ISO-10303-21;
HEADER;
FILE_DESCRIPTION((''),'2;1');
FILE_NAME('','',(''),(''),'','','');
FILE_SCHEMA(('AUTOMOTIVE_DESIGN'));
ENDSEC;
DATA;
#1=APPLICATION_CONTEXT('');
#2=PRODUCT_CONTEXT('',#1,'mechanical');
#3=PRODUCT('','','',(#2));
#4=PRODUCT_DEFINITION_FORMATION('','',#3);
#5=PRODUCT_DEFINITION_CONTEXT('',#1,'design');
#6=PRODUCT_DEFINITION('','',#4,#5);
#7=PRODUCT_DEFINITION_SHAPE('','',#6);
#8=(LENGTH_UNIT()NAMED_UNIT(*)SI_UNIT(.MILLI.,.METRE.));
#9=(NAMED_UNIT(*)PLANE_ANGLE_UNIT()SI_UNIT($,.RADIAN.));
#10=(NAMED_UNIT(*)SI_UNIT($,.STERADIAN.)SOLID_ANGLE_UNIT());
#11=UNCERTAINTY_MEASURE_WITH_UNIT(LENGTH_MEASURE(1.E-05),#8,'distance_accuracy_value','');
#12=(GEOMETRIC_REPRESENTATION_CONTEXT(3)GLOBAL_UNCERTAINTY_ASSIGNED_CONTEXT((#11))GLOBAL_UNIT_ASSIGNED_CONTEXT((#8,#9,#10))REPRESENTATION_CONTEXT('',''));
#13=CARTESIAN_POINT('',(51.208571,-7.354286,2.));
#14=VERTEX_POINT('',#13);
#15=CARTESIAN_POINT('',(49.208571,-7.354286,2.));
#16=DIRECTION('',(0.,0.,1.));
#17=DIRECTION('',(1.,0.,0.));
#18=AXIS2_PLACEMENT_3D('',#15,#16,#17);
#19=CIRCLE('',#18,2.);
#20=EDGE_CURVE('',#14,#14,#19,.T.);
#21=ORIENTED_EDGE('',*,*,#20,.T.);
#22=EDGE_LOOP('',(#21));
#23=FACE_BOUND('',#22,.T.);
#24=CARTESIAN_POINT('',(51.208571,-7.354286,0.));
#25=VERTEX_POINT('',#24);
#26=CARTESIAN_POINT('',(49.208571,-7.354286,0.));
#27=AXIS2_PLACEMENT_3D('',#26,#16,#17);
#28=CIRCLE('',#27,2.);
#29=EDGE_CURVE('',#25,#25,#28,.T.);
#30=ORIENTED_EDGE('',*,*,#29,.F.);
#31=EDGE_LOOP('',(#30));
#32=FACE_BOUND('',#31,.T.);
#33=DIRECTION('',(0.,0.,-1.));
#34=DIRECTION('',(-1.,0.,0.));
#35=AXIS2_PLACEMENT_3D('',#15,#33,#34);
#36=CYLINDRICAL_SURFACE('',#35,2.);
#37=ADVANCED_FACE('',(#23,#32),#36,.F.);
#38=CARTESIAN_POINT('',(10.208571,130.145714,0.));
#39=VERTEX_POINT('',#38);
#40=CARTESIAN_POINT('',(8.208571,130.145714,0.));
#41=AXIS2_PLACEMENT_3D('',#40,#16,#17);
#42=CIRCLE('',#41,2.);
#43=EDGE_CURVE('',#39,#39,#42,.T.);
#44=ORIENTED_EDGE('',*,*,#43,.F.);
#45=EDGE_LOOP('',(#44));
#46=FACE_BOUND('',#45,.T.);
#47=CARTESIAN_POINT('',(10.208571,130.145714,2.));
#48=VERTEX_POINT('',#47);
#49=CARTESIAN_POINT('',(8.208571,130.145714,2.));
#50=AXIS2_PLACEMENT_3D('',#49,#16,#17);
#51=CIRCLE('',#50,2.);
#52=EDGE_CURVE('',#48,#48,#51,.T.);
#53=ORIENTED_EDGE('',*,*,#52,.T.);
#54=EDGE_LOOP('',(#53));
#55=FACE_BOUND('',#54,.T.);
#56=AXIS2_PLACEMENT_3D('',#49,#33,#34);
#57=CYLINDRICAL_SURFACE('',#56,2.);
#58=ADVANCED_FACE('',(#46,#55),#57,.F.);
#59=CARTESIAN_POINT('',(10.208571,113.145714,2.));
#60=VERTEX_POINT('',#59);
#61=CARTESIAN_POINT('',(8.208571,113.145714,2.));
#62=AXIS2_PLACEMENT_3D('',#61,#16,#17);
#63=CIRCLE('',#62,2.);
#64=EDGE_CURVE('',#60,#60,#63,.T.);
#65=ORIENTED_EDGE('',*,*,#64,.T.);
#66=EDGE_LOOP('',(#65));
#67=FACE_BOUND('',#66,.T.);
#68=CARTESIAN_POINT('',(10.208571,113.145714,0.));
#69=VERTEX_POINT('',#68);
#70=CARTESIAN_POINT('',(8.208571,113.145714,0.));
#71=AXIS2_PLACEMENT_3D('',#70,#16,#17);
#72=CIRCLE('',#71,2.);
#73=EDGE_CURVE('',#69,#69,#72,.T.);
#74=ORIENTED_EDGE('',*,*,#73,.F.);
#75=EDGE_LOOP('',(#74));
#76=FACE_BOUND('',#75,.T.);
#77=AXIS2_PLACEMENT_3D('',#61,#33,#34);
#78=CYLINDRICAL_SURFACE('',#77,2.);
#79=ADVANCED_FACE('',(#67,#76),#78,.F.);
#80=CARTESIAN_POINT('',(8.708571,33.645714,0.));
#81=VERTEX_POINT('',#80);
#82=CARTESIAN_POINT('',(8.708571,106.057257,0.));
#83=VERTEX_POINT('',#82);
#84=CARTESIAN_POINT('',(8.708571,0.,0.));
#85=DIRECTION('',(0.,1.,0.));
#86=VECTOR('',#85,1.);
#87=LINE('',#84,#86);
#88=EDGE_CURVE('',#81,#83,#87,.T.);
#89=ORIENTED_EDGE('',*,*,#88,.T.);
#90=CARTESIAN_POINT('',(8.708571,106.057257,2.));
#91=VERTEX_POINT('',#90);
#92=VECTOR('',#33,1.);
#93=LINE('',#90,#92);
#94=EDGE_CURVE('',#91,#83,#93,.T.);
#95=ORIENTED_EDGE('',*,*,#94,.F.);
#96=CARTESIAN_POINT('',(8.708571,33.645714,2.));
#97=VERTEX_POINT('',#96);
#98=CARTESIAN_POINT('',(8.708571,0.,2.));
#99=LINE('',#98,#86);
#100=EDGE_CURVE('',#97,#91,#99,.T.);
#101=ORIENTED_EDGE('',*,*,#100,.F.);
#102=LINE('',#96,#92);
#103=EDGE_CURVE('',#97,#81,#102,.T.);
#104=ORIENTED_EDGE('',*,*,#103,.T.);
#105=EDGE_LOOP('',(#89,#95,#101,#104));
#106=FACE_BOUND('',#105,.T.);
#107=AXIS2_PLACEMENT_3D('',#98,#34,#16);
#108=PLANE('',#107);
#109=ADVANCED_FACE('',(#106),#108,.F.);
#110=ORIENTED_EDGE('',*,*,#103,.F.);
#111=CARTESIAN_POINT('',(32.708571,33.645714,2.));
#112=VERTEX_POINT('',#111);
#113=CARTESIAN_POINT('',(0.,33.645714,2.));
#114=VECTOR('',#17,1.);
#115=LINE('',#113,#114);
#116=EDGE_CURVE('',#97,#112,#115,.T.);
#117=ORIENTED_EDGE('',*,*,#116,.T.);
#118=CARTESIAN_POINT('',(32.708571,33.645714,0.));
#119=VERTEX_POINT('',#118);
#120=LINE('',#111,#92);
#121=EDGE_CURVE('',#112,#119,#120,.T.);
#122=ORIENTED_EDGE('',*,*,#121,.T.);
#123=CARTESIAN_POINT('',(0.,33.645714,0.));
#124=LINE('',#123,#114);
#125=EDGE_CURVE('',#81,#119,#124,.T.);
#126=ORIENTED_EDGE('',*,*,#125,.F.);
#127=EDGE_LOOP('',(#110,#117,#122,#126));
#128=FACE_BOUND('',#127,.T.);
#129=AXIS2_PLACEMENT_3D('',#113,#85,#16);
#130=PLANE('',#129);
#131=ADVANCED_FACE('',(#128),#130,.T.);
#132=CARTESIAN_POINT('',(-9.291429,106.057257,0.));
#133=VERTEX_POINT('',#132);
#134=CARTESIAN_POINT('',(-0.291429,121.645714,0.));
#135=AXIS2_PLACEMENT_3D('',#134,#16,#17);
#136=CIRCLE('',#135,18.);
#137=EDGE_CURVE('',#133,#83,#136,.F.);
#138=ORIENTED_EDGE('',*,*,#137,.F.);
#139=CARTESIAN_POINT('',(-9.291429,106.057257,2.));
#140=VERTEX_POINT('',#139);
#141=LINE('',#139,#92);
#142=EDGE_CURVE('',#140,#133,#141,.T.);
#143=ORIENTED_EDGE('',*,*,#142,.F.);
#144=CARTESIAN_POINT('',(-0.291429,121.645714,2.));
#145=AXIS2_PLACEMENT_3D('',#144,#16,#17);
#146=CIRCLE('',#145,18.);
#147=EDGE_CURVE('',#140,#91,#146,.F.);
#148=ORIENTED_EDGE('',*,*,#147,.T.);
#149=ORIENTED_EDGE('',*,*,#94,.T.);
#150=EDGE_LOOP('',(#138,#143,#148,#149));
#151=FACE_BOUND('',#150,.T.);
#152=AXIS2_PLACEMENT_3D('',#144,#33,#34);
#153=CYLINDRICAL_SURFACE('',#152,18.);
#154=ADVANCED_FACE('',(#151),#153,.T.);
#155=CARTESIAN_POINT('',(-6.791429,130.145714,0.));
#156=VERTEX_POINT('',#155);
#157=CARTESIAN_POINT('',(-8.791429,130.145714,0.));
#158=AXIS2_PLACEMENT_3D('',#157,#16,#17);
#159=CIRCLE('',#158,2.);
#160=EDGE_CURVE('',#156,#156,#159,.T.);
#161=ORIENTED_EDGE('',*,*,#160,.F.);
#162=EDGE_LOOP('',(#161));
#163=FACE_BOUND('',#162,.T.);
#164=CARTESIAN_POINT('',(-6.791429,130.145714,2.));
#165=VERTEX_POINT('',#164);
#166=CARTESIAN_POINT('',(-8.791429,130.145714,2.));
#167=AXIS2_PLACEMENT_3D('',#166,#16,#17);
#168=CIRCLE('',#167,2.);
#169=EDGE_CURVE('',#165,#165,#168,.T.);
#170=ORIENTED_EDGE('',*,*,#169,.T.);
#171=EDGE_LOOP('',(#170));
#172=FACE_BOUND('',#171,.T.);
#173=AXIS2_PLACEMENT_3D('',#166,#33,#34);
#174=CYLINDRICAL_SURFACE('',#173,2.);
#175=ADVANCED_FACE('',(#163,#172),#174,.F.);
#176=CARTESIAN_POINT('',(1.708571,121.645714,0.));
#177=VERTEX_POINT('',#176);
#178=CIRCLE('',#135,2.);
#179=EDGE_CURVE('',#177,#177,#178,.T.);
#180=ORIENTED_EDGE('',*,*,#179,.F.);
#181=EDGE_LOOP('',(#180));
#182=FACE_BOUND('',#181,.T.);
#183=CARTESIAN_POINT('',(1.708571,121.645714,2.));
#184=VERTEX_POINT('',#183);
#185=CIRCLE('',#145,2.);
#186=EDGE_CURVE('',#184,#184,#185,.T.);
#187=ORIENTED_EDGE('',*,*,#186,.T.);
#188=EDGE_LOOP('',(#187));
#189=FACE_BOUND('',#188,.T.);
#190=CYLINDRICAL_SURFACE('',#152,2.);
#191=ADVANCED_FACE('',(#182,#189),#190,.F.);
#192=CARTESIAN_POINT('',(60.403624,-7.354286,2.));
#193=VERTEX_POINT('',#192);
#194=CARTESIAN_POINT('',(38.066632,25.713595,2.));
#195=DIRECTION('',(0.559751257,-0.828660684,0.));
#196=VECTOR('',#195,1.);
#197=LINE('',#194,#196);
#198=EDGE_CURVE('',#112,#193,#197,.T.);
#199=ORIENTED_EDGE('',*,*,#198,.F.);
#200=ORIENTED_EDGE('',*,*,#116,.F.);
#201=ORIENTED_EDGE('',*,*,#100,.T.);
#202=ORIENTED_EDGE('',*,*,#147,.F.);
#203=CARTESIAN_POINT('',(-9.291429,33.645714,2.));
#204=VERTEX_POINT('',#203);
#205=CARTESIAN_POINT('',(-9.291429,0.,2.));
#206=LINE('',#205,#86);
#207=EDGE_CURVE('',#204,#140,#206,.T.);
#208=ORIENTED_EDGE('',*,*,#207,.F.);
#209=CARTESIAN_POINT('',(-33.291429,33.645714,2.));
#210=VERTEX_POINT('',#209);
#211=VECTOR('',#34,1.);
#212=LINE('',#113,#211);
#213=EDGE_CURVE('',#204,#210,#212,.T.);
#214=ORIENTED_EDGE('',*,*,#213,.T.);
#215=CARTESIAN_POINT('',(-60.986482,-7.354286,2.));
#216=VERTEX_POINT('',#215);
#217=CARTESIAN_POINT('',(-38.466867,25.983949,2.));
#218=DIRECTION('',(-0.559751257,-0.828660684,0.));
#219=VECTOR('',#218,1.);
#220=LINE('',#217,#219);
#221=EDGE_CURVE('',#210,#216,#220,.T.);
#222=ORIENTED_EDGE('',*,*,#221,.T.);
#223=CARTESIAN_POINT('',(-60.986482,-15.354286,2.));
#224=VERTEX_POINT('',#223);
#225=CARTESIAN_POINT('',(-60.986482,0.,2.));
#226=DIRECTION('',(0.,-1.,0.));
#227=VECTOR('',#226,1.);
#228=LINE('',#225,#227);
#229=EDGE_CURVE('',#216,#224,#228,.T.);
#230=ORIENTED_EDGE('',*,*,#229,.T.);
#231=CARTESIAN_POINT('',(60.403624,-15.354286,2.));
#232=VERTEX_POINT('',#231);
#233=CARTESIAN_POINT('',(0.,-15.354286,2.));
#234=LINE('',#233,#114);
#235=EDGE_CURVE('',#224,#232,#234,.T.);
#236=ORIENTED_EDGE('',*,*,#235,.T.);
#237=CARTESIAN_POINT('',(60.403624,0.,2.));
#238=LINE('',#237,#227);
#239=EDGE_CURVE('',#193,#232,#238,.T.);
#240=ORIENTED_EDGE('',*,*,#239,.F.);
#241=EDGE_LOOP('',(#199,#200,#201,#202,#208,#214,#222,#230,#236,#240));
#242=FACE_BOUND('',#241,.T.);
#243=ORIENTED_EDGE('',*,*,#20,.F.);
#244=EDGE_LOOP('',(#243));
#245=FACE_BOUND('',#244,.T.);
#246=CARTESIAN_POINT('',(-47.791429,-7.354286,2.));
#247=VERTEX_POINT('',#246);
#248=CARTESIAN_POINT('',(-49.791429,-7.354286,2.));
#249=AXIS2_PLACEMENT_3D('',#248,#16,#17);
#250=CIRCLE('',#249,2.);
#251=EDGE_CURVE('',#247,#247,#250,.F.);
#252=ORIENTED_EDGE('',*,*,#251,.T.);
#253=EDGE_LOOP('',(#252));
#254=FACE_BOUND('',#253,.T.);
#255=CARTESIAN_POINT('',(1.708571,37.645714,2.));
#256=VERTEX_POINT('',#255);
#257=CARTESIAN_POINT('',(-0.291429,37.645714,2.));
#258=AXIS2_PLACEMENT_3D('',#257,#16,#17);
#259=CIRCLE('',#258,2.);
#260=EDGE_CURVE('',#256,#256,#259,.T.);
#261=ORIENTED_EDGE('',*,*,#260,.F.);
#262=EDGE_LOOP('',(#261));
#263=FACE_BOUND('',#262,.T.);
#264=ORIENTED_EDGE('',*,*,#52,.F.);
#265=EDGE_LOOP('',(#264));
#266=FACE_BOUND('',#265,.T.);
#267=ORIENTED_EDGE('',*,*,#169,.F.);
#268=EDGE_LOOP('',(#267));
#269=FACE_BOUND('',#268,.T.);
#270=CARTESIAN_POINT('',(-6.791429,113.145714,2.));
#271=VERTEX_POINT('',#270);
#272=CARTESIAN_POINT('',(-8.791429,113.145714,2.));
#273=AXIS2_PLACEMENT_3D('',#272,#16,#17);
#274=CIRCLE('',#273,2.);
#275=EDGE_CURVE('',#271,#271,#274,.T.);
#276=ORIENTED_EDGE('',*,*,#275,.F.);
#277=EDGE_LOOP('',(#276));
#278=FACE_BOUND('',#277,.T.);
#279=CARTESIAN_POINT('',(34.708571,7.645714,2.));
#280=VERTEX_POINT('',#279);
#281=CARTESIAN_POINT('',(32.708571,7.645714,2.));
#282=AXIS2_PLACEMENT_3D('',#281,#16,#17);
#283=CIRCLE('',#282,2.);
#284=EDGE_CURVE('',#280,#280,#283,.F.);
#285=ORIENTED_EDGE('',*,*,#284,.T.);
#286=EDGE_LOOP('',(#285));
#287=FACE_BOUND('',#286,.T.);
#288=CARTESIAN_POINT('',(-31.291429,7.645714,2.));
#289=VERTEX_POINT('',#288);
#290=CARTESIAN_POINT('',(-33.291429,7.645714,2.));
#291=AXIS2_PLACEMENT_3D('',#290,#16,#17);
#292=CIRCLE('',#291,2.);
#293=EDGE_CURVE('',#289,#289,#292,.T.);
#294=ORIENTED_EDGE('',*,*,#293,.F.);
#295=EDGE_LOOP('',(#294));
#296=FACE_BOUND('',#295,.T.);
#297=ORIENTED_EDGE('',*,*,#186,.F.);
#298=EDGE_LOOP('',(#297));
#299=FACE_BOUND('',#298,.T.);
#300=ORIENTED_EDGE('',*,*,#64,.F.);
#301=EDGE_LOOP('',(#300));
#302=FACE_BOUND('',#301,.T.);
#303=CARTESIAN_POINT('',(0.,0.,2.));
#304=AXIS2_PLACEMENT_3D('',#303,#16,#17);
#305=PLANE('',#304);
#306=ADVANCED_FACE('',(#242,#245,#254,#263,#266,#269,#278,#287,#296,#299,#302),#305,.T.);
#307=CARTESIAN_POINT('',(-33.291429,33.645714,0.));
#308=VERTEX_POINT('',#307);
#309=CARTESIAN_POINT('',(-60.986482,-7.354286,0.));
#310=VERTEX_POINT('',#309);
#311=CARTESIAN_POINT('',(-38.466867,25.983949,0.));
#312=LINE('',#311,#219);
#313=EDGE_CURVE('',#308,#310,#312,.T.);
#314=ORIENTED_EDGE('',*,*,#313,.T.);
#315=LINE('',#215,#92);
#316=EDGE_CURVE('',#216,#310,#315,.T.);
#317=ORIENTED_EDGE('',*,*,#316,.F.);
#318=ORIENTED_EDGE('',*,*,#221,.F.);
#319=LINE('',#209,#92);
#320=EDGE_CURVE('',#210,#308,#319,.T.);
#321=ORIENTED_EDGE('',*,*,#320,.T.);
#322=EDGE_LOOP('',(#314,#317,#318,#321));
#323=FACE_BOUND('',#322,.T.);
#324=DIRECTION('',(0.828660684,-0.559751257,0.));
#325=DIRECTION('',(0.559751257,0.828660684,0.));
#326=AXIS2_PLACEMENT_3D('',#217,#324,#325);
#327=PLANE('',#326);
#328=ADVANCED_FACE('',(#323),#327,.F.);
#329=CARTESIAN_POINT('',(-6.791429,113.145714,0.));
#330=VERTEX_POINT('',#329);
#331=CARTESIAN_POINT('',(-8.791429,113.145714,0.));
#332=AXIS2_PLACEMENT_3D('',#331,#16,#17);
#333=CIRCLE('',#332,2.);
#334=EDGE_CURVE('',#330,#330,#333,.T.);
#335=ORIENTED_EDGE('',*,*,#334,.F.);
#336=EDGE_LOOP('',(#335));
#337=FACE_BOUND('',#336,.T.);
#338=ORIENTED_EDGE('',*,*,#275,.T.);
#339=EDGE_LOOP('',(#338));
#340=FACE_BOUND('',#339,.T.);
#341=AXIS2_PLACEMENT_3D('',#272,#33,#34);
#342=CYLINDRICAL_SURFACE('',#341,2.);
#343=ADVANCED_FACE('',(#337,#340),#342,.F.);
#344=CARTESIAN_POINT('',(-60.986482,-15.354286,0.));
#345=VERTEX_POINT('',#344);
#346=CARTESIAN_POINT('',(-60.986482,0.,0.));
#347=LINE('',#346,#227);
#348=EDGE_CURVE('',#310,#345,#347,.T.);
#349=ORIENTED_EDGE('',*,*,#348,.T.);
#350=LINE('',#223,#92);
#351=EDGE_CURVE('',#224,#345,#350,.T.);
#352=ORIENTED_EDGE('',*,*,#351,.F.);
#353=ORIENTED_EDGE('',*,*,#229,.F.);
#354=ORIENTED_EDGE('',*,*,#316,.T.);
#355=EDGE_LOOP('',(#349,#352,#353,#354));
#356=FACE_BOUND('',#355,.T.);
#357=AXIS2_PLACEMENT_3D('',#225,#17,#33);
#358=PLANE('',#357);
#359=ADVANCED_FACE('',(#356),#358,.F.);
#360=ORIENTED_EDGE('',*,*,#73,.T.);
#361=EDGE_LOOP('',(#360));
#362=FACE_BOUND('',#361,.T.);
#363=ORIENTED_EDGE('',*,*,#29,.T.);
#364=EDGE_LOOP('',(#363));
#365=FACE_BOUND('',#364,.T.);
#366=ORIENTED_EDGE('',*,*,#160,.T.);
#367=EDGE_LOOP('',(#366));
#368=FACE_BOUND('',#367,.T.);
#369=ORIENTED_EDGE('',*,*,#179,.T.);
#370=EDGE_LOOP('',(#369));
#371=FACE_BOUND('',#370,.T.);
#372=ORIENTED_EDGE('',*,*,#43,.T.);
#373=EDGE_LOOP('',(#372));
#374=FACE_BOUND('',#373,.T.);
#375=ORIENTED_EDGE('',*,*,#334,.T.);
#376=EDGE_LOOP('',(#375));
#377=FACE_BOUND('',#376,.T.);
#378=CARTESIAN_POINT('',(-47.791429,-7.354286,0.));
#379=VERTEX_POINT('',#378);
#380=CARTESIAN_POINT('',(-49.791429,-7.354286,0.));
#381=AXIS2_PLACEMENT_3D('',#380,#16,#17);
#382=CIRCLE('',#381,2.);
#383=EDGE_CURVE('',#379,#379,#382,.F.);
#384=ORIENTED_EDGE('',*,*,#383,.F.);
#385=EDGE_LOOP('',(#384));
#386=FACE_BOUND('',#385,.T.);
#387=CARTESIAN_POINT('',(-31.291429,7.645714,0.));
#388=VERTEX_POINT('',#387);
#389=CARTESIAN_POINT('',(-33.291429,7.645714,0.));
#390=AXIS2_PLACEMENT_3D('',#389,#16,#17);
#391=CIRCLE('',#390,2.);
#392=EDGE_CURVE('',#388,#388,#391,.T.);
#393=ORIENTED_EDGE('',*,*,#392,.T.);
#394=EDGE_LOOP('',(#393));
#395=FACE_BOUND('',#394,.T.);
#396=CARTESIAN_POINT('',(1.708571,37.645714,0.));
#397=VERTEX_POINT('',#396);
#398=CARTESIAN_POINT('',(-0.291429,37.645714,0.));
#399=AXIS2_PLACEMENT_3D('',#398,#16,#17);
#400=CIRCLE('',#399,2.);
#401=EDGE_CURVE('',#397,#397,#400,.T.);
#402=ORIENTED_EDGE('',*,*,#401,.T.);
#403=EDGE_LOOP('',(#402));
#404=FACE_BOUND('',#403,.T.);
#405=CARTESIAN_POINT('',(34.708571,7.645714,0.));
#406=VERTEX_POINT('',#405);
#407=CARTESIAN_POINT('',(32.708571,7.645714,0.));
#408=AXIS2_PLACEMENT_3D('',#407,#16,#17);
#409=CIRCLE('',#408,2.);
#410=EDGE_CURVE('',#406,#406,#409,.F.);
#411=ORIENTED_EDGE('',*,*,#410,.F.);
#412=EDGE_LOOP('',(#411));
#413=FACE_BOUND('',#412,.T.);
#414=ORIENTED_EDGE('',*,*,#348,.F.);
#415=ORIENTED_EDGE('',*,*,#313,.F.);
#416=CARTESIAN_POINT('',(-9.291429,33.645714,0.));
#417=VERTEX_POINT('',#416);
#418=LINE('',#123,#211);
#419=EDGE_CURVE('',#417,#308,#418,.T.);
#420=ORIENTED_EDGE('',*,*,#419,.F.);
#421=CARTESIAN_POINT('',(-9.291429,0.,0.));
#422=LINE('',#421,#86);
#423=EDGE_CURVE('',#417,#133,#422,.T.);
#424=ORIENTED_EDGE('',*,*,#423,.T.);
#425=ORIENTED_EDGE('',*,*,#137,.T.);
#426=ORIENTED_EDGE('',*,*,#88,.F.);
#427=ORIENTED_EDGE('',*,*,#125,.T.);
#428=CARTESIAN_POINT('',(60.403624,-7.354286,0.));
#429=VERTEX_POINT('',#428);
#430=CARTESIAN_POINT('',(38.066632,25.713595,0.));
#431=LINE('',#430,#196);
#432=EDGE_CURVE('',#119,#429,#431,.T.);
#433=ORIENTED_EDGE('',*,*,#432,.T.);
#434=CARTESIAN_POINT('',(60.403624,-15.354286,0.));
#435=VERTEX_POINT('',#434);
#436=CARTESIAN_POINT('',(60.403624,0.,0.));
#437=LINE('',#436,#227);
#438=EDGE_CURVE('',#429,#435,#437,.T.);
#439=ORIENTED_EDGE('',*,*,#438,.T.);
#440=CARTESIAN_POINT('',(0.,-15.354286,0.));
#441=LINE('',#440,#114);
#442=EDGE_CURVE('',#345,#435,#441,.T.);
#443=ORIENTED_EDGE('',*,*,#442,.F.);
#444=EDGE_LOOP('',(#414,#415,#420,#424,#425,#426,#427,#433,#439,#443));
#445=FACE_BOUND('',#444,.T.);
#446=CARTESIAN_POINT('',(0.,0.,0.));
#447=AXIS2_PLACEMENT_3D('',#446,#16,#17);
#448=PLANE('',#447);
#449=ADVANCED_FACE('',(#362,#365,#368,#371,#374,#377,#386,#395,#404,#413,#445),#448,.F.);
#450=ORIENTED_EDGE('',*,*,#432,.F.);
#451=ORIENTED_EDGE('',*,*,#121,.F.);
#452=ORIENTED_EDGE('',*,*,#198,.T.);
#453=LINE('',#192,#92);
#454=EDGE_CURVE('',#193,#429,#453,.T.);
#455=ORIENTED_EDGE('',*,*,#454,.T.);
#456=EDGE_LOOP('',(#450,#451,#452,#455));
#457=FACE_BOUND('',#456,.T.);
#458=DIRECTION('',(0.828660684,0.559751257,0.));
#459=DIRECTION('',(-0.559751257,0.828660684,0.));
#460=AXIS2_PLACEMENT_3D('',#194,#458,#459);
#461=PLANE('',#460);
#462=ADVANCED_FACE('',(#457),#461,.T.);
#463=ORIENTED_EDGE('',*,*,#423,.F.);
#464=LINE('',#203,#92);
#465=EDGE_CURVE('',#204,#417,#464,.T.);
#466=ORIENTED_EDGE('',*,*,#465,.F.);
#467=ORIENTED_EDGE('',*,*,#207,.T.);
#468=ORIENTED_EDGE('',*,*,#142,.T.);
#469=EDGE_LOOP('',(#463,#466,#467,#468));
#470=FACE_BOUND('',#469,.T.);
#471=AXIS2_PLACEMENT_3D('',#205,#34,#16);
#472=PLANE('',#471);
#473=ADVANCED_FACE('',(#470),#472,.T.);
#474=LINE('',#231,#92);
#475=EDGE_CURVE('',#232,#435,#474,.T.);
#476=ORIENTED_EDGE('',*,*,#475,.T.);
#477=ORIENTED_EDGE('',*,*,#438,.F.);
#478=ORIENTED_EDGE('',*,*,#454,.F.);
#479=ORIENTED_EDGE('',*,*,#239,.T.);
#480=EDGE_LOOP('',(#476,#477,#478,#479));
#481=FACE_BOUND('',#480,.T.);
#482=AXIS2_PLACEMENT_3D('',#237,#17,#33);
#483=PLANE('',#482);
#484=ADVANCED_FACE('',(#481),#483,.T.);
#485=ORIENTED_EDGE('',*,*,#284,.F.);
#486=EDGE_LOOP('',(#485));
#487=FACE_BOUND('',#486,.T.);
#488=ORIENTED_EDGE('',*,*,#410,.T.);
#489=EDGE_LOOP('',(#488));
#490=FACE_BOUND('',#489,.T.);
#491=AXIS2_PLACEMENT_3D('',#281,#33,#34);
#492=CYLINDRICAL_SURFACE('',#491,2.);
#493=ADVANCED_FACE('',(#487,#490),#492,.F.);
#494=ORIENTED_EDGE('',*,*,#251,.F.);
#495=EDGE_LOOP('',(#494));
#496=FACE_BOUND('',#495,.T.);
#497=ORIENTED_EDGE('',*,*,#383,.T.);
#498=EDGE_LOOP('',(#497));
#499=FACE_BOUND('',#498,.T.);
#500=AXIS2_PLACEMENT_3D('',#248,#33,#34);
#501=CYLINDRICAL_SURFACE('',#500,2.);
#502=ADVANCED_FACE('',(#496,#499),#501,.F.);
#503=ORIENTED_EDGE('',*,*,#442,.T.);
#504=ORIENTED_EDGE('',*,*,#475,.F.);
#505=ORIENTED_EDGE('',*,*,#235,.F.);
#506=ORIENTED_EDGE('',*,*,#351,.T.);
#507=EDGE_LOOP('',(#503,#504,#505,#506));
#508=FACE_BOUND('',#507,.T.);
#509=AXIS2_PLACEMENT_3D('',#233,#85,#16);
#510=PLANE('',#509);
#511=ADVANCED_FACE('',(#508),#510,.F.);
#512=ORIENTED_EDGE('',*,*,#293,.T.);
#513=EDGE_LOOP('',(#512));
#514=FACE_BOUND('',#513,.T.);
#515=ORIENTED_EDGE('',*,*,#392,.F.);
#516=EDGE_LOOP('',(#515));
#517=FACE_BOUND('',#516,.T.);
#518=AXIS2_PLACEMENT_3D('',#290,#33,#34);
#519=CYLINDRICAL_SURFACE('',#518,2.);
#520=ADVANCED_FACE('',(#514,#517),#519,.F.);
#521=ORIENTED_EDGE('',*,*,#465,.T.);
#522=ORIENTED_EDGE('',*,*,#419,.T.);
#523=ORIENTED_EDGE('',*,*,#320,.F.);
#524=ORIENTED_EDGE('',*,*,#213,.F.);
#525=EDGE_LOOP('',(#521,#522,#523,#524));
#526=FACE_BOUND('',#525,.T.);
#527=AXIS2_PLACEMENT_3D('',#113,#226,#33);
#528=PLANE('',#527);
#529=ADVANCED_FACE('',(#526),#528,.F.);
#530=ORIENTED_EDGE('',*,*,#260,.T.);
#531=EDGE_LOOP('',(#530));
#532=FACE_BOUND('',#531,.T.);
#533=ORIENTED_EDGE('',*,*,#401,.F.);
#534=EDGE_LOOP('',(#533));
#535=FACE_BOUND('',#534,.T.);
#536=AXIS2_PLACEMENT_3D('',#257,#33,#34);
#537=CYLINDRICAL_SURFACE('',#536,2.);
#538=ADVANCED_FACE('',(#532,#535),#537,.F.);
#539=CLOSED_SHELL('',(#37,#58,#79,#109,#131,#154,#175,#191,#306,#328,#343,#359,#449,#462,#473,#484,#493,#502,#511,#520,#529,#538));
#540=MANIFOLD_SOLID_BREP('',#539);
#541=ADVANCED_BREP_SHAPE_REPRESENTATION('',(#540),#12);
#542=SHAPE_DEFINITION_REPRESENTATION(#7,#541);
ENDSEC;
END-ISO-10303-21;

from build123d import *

# Parameters (mm, degrees)
SKETCH_1_R      = 2
EXTRUDE_1_DEPTH = 2


with BuildPart() as part:
    # 草图1 → 凸台-拉伸1 (new body)
    # profile 1 of 8: a face of its own
    with BuildSketch(Plane.XY):
        with BuildLine():
            Line((-9.291428571, 106.057257018), (-9.291428571, 33.645714286))
            Line((-9.291428571, 33.645714286), (-33.291428571, 33.645714286))
            Line((-33.291428571, 33.645714286), (-60.986481548, -7.354285714))
            Line((-60.986481548, -7.354285714), (-60.986481548, -15.354285714))
            Line((-60.986481548, -15.354285714), (-0.582857143, -15.354285714))
            Line((-0.582857143, -15.354285714), (0, -15.354285714))
            Line((0, -15.354285714), (60.403624405, -15.354285714))
            Line((60.403624405, -15.354285714), (60.403624405, -7.354285714))
            Line((60.403624405, -7.354285714), (32.708571429, 33.645714286))
            Line((32.708571429, 33.645714286), (8.708571429, 33.645714286))
            Line((8.708571429, 33.645714286), (8.708571429, 106.057257018))
            ThreePointArc((8.708571429, 106.057257018), (-0.291428571, 103.645714286), (-9.291428571, 106.057257018))
        make_face()
        with Locations((-49.791428571, -7.354285714)):
            Circle(SKETCH_1_R, mode=Mode.SUBTRACT)
        with Locations((-33.291428571, 7.645714286)):
            Circle(SKETCH_1_R, mode=Mode.SUBTRACT)
        with Locations((-16.791428571, -7.354285714)):
            Circle(SKETCH_1_R, mode=Mode.SUBTRACT)
        with Locations((-0.291428571, 7.645714286)):
            Circle(SKETCH_1_R, mode=Mode.SUBTRACT)
        with BuildLine():
            add(Edge.make_bspline(
                [(-13.112946754, 19.24107863), (-13.117507431, 19.192525358), (-13.126009121, 19.102015814), (-13.163633477, 18.976976473), (-13.224294442, 18.873128684), (-13.310152608, 18.796036169), (-13.405968226, 18.73894597), (-13.507221815, 18.696340834), (-13.614166311, 18.670943234), (-13.687426318, 18.668450292), (-13.724573402, 18.667186225)],
                knots=[0, 0, 0, 0, 1.240550697, 2.312546057, 3.302349966, 4.263860416, 5.218032513, 6.135468179, 7.054573937, 8, 8, 8, 8], degree=3))
            Line((-13.112946754, 19.24107863), (-13.11482685, 26.812195725))
            add(Edge.make_bspline(
                [(-13.789369633, 27.474632748), (-13.738803864, 27.471517031), (-13.642654112, 27.465592559), (-13.506191943, 27.437213361), (-13.389904602, 27.383659695), (-13.29104534, 27.311053803), (-13.217784011, 27.212861918), (-13.159811251, 27.09812106), (-13.124337859, 26.961571237), (-13.118115484, 26.863845486), (-13.11482685, 26.812195725)],
                knots=[0, 0, 0, 0, 1.133480904, 2.155290252, 3.097618657, 3.979323727, 4.869594101, 5.811399427, 6.843286507, 8, 8, 8, 8], degree=3))
            Line((-13.789369633, 27.474632748), (-14.40075185, 27.474632748))
            Line((-14.40075185, 27.474632748), (-14.40075185, 27.820910405))
            Line((-14.40075185, 27.820910405), (-10.408606041, 27.819030309))
            add(Edge.make_bspline(
                [(-6.505475334, 25.491078195), (-6.511083553, 25.602982802), (-6.521868874, 25.818189643), (-6.578610538, 26.127030514), (-6.668917007, 26.406444081), (-6.789027977, 26.66029892), (-6.947901882, 26.881604625), (-7.136344835, 27.07724673), (-7.359552705, 27.2419029), (-7.614270146, 27.375992441), (-7.893693166, 27.487106242), (-8.19396601, 27.582695288), (-8.513763866, 27.663670597), (-8.853977795, 27.72677366), (-9.213774122, 27.775986746), (-9.594447471, 27.807289222), (-9.995086667, 27.822188477), (-10.268706481, 27.820098763), (-10.408606041, 27.819030309)],
                knots=[0, 0, 0, 0, 1.039956407, 1.999968905, 2.906576639, 3.761369915, 4.597245318, 5.425510473, 6.27508438, 7.161467835, 8.092027264, 9.06500281, 10.086778256, 11.154172993, 12.277381244, 13.458582467, 14.700594122, 16, 16, 16, 16], degree=3))
            add(Edge.make_bspline(
                [(-7.410685493, 23.599734723), (-7.337701139, 23.66023899), (-7.194252283, 23.779158558), (-7.007785968, 23.981932383), (-6.849592603, 24.198320221), (-6.720772992, 24.428804957), (-6.622143236, 24.674348151), (-6.55291019, 24.934021594), (-6.509921831, 25.207967941), (-6.506975444, 25.395565592), (-6.505475334, 25.491078195)],
                knots=[0, 0, 0, 0, 1.043790947, 2.051544049, 3.026393326, 3.991957292, 4.953478889, 5.934510146, 6.948386013, 8, 8, 8, 8], degree=3))
            add(Edge.make_bspline(
                [(-9.79483465, 22.920112189), (-9.668072083, 22.930874387), (-9.42133434, 22.95182253), (-9.063387198, 23.002941381), (-8.729069898, 23.067878882), (-8.419068097, 23.147758169), (-8.13153105, 23.236737689), (-7.867617151, 23.341850523), (-7.627526667, 23.46143573), (-7.481477348, 23.554584431), (-7.410685493, 23.599734723)],
                knots=[0, 0, 0, 0, 1.218224179, 2.371219609, 3.461127923, 4.47824446, 5.435918827, 6.34183842, 7.196269206, 8, 8, 8, 8], degree=3))
            Line((-9.79483465, 22.920112189), (-7.530338991, 19.201039754))
            Line((-7.530338991, 19.201039754), (-7.184853437, 18.813977062))
            add(Edge.make_bspline(
                [(-6.722360853, 18.667188063), (-6.768845187, 18.668665711), (-6.857277038, 18.671476791), (-6.981761265, 18.701583574), (-7.093732838, 18.744203903), (-7.155001921, 18.791119063), (-7.184853437, 18.813977062)],
                knots=[0, 0, 0, 0, 1.124128933, 2.138544239, 3.093061746, 4, 4, 4, 4], degree=3))
            Line((-6.722360853, 18.667188063), (-6.113351269, 18.667188063))
            Line((-6.113351269, 18.667188063), (-6.113351269, 18.320910405))
            Line((-6.113351269, 18.320910405), (-7.810070808, 18.320910405))
            Line((-7.810070808, 18.320910405), (-10.527465599, 22.897771577))
            Line((-10.527465599, 22.897771577), (-12.52578157, 22.897771577))
            Line((-12.52578157, 22.897771577), (-12.52578157, 19.239294101))
            add(Edge.make_bspline(
                [(-11.792919055, 18.667188063), (-11.823350778, 18.666209041), (-11.888091701, 18.664126256), (-11.991662462, 18.682264711), (-12.107597956, 18.710327015), (-12.231876724, 18.750220148), (-12.354616091, 18.81411357), (-12.446003333, 18.926100007), (-12.507736237, 19.070653451), (-12.519462841, 19.180243125), (-12.52578157, 19.239294101)],
                knots=[0, 0, 0, 0, 0.693802496, 1.476006268, 2.390026098, 3.418615026, 4.45832201, 5.494963609, 6.650193591, 8, 8, 8, 8], degree=3))
            Line((-11.792919055, 18.667188063), (-11.193493734, 18.667188063))
            Line((-11.193493734, 18.667188063), (-11.193493734, 18.320910405))
            Line((-11.193493734, 18.320910405), (-14.40075185, 18.320910405))
            Line((-14.40075185, 18.320910405), (-14.40075185, 18.667188063))
            Line((-14.40075185, 18.667188063), (-13.724573402, 18.667186225))
        make_face(mode=Mode.SUBTRACT)
        with BuildLine():
            add(Edge.make_bspline(
                [(-3.959220736, 19.256284802), (-3.963076567, 19.209692223), (-3.970336414, 19.121966646), (-3.99829712, 18.999267855), (-4.040647434, 18.894845847), (-4.098141365, 18.809276619), (-4.169771264, 18.742396089), (-4.256941445, 18.697064656), (-4.357818409, 18.669880708), (-4.429516429, 18.668116788), (-4.467341025, 18.667186225)],
                knots=[0, 0, 0, 0, 1.271999278, 2.394949411, 3.413369715, 4.323118431, 5.181536852, 6.052778271, 6.972734865, 8, 8, 8, 8], degree=3))
            Line((-3.959220736, 19.256284802), (-3.961100832, 26.802786056))
            add(Edge.make_bspline(
                [(-4.49255416, 27.474632748), (-4.446878408, 27.471341575), (-4.360538549, 27.465120344), (-4.242120001, 27.430079243), (-4.143492644, 27.372060649), (-4.071985769, 27.287646224), (-4.01839387, 27.187251308), (-3.984206611, 27.071268722), (-3.962962101, 26.941589771), (-3.961741398, 26.850556129), (-3.961100832, 26.802786056)],
                knots=[0, 0, 0, 0, 1.119687802, 2.116520953, 2.999727408, 3.881862985, 4.789741442, 5.771887262, 6.83079368, 8, 8, 8, 8], degree=3))
            Line((-4.49255416, 27.474632748), (-5.299058361, 27.474632748))
            Line((-5.299058361, 27.474632748), (-5.299058361, 27.820910405))
            Line((-5.299058361, 27.820910405), (1.990187687, 27.820910405))
            Line((1.990187687, 27.820910405), (2.848724418, 25.406391174))
            Line((2.848724418, 25.406391174), (2.508987583, 25.406391174))
            add(Edge.make_bspline(
                [(0.064984109, 27.474632748), (0.140110651, 27.471154863), (0.286599267, 27.464373363), (0.500830616, 27.439126216), (0.702527408, 27.393967385), (0.891694128, 27.330950047), (1.070745414, 27.254665316), (1.23590935, 27.157074165), (1.392580141, 27.046877732), (1.582747366, 26.867141618), (1.806936582, 26.608752109), (2.060359664, 26.256497042), (2.297244462, 25.851767948), (2.436570812, 25.558711343), (2.508987583, 25.406391174)],
                knots=[0, 0, 0, 0, 0.792307697, 1.544914175, 2.26972427, 2.965754149, 3.643594828, 4.315869793, 4.983580278, 5.657186129, 7.066788734, 8.582010903, 10.223453531, 12, 12, 12, 12], degree=3))
            Line((0.064984109, 27.474632748), (-2.767954801, 27.47275449))
            add(Edge.make_bspline(
                [(-3.372055552, 26.802786056), (-3.37108094, 26.850608214), (-3.369217249, 26.942055671), (-3.342096259, 27.072362656), (-3.297906448, 27.188687071), (-3.232299276, 27.288403285), (-3.149042801, 27.373383156), (-3.038566834, 27.428931727), (-2.910189042, 27.46579959), (-2.81718321, 27.470347343), (-2.767954801, 27.47275449)],
                knots=[0, 0, 0, 0, 1.11464707, 2.13147302, 3.091549386, 4.001497762, 4.902562602, 5.833024687, 6.853010125, 8, 8, 8, 8], degree=3))
            Line((-3.372055552, 26.802786056), (-3.372055552, 23.364492998))
            Line((-3.372055552, 23.364492998), (-1.158901399, 23.364492998))
            add(Edge.make_bspline(
                [(0.025959712, 24.971664465), (0.026668858, 24.899524355), (0.028025744, 24.761490713), (0.022748432, 24.562439731), (0.009651859, 24.380359725), (-0.009516704, 24.214058374), (-0.041117367, 24.065006367), (-0.074252363, 23.931013194), (-0.120764958, 23.814878283), (-0.172638912, 23.712913215), (-0.238654631, 23.624880234), (-0.320805081, 23.550491773), (-0.420980084, 23.490269981), (-0.537050295, 23.441468987), (-0.669284856, 23.404568969), (-0.817999538, 23.378559018), (-0.982934878, 23.363301487), (-1.09864708, 23.364085001), (-1.158901399, 23.364492998)],
                knots=[0, 0, 0, 0, 1.45592283, 2.785778005, 4.017003254, 5.139764002, 6.16022002, 7.090717386, 7.920607392, 8.679475788, 9.393511104, 10.128452667, 10.901446109, 11.740937198, 12.662607922, 13.665877584, 14.784562444, 16, 16, 16, 16], degree=3))
            Line((0.025959712, 24.971664465), (0.351163019, 24.971664465))
            Line((0.351163019, 24.971664465), (0.351163019, 21.385066202))
            Line((0.351163019, 21.385066202), (0.024834963, 21.384698637))
            add(Edge.make_bspline(
                [(-1.158107458, 23.01821534), (-1.101278197, 23.01890193), (-0.992279831, 23.020218808), (-0.835238345, 23.011200881), (-0.692666196, 22.991485661), (-0.564583061, 22.959254425), (-0.450840709, 22.916771422), (-0.352345277, 22.86164618), (-0.266705005, 22.797458286), (-0.197457026, 22.717358039), (-0.139821155, 22.621684513), (-0.091227253, 22.506932492), (-0.050617673, 22.371886605), (-0.019210677, 22.214927487), (0.004897952, 22.037702121), (0.018947471, 21.838459716), (0.026538914, 21.618746458), (0.02541959, 21.465000599), (0.024834963, 21.384698637)],
                knots=[0, 0, 0, 0, 1.130688028, 2.168656484, 3.127251201, 3.990115579, 4.792240314, 5.535477769, 6.229605204, 6.910702075, 7.627905293, 8.444183714, 9.383981437, 10.429354697, 11.626292868, 12.94080821, 14.402174172, 16, 16, 16, 16], degree=3))
            Line((-1.158107458, 23.01821534), (-3.372055552, 23.01821534))
            Line((-3.372055552, 23.01821534), (-3.372055552, 19.256231506))
            add(Edge.make_bspline(
                [(-2.779764671, 18.667188063), (-2.814289076, 18.66756876), (-2.882577969, 18.668321775), (-2.98272001, 18.696189217), (-3.081471838, 18.734568784), (-3.175556844, 18.793056931), (-3.261537146, 18.871583309), (-3.321123574, 18.979981863), (-3.362041558, 19.10977492), (-3.368556036, 19.205050418), (-3.372055552, 19.256231506)],
                knots=[0, 0, 0, 0, 0.877803887, 1.736286428, 2.634488349, 3.576734679, 4.550971448, 5.570120121, 6.694691728, 8, 8, 8, 8], degree=3))
            Line((-2.779764671, 18.667188063), (-2.007546951, 18.667188063))
            Line((-2.007546951, 18.667188063), (-2.007546951, 18.320910405))
            Line((-2.007546951, 18.320910405), (-5.299058361, 18.320910405))
            Line((-5.299058361, 18.320910405), (-5.299058361, 18.667188063))
            Line((-5.299058361, 18.667188063), (-4.467341025, 18.667186225))
        make_face(mode=Mode.SUBTRACT)
        with Locations((-0.291428571, 37.645714286)):
            Circle(SKETCH_1_R, mode=Mode.SUBTRACT)
        with Locations((16.208571429, -7.354285714)):
            Circle(SKETCH_1_R, mode=Mode.SUBTRACT)
        with Locations((49.208571429, -7.354285714)):
            Circle(SKETCH_1_R, mode=Mode.SUBTRACT)
        with Locations((32.708571429, 7.645714286)):
            Circle(SKETCH_1_R, mode=Mode.SUBTRACT)
    # profile 2 of 8: a face of its own
    with BuildSketch(Plane.XY):
        with BuildLine():
            ThreePointArc((17.708571429, 121.645714286), (-9.291428571, 137.234171554), (-9.291428571, 106.057257018))
            ThreePointArc((-9.291428571, 106.057257018), (-0.291428571, 103.645714286), (8.708571429, 106.057257018))
            ThreePointArc((8.708571429, 106.057257018), (15.297028697, 112.645714286), (17.708571429, 121.645714286))
        make_face()
        with Locations((-8.791428571, 113.145714286)):
            Circle(SKETCH_1_R, mode=Mode.SUBTRACT)
        with Locations((-0.291428571, 121.645714286)):
            Circle(SKETCH_1_R, mode=Mode.SUBTRACT)
        with Locations((-8.791428571, 130.145714286)):
            Circle(SKETCH_1_R, mode=Mode.SUBTRACT)
        with Locations((8.208571429, 113.145714286)):
            Circle(SKETCH_1_R, mode=Mode.SUBTRACT)
        with Locations((8.208571429, 130.145714286)):
            Circle(SKETCH_1_R, mode=Mode.SUBTRACT)
    # profile 3 of 8: a face of its own
    with BuildSketch(Plane.XY):
        with Locations((16.208571429, -7.354285714)):
            Circle(SKETCH_1_R)
    # profile 4 of 8: a face of its own
    with BuildSketch(Plane.XY):
        with Locations((-16.791428571, -7.354285714)):
            Circle(SKETCH_1_R)
    # profile 5 of 8: a face of its own
    with BuildSketch(Plane.XY):
        with Locations((-0.291428571, 7.645714286)):
            Circle(SKETCH_1_R)
    # profile 6 of 8: a face of its own
    with BuildSketch(Plane.XY):
        with BuildLine():
            Line((-13.11482685, 26.812195725), (-13.112946754, 19.24107863))
            add(Edge.make_bspline(
                [(-13.112946754, 19.24107863), (-13.117507431, 19.192525358), (-13.126009121, 19.102015814), (-13.163633477, 18.976976473), (-13.224294442, 18.873128684), (-13.310152608, 18.796036169), (-13.405968226, 18.73894597), (-13.507221815, 18.696340834), (-13.614166311, 18.670943234), (-13.687426318, 18.668450292), (-13.724573402, 18.667186225)],
                knots=[0, 0, 0, 0, 1.240550697, 2.312546057, 3.302349966, 4.263860416, 5.218032513, 6.135468179, 7.054573937, 8, 8, 8, 8], degree=3))
            Line((-13.724573402, 18.667186225), (-14.40075185, 18.667188063))
            Line((-14.40075185, 18.667188063), (-14.40075185, 18.320910405))
            Line((-14.40075185, 18.320910405), (-11.193493734, 18.320910405))
            Line((-11.193493734, 18.320910405), (-11.193493734, 18.667188063))
            Line((-11.193493734, 18.667188063), (-11.792919055, 18.667188063))
            add(Edge.make_bspline(
                [(-11.792919055, 18.667188063), (-11.823350778, 18.666209041), (-11.888091701, 18.664126256), (-11.991662462, 18.682264711), (-12.107597956, 18.710327015), (-12.231876724, 18.750220148), (-12.354616091, 18.81411357), (-12.446003333, 18.926100007), (-12.507736237, 19.070653451), (-12.519462841, 19.180243125), (-12.52578157, 19.239294101)],
                knots=[0, 0, 0, 0, 0.693802496, 1.476006268, 2.390026098, 3.418615026, 4.45832201, 5.494963609, 6.650193591, 8, 8, 8, 8], degree=3))
            Line((-12.52578157, 19.239294101), (-12.52578157, 22.897771577))
            Line((-12.52578157, 22.897771577), (-10.527465599, 22.897771577))
            Line((-10.527465599, 22.897771577), (-7.810070808, 18.320910405))
            Line((-7.810070808, 18.320910405), (-6.113351269, 18.320910405))
            Line((-6.113351269, 18.320910405), (-6.113351269, 18.667188063))
            Line((-6.113351269, 18.667188063), (-6.722360853, 18.667188063))
            add(Edge.make_bspline(
                [(-6.722360853, 18.667188063), (-6.768845187, 18.668665711), (-6.857277038, 18.671476791), (-6.981761265, 18.701583574), (-7.093732838, 18.744203903), (-7.155001921, 18.791119063), (-7.184853437, 18.813977062)],
                knots=[0, 0, 0, 0, 1.124128933, 2.138544239, 3.093061746, 4, 4, 4, 4], degree=3))
            Line((-7.184853437, 18.813977062), (-7.530338991, 19.201039754))
            Line((-7.530338991, 19.201039754), (-9.79483465, 22.920112189))
            add(Edge.make_bspline(
                [(-9.79483465, 22.920112189), (-9.668072083, 22.930874387), (-9.42133434, 22.95182253), (-9.063387198, 23.002941381), (-8.729069898, 23.067878882), (-8.419068097, 23.147758169), (-8.13153105, 23.236737689), (-7.867617151, 23.341850523), (-7.627526667, 23.46143573), (-7.481477348, 23.554584431), (-7.410685493, 23.599734723)],
                knots=[0, 0, 0, 0, 1.218224179, 2.371219609, 3.461127923, 4.47824446, 5.435918827, 6.34183842, 7.196269206, 8, 8, 8, 8], degree=3))
            add(Edge.make_bspline(
                [(-7.410685493, 23.599734723), (-7.337701139, 23.66023899), (-7.194252283, 23.779158558), (-7.007785968, 23.981932383), (-6.849592603, 24.198320221), (-6.720772992, 24.428804957), (-6.622143236, 24.674348151), (-6.55291019, 24.934021594), (-6.509921831, 25.207967941), (-6.506975444, 25.395565592), (-6.505475334, 25.491078195)],
                knots=[0, 0, 0, 0, 1.043790947, 2.051544049, 3.026393326, 3.991957292, 4.953478889, 5.934510146, 6.948386013, 8, 8, 8, 8], degree=3))
            add(Edge.make_bspline(
                [(-6.505475334, 25.491078195), (-6.511083553, 25.602982802), (-6.521868874, 25.818189643), (-6.578610538, 26.127030514), (-6.668917007, 26.406444081), (-6.789027977, 26.66029892), (-6.947901882, 26.881604625), (-7.136344835, 27.07724673), (-7.359552705, 27.2419029), (-7.614270146, 27.375992441), (-7.893693166, 27.487106242), (-8.19396601, 27.582695288), (-8.513763866, 27.663670597), (-8.853977795, 27.72677366), (-9.213774122, 27.775986746), (-9.594447471, 27.807289222), (-9.995086667, 27.822188477), (-10.268706481, 27.820098763), (-10.408606041, 27.819030309)],
                knots=[0, 0, 0, 0, 1.039956407, 1.999968905, 2.906576639, 3.761369915, 4.597245318, 5.425510473, 6.27508438, 7.161467835, 8.092027264, 9.06500281, 10.086778256, 11.154172993, 12.277381244, 13.458582467, 14.700594122, 16, 16, 16, 16], degree=3))
            Line((-10.408606041, 27.819030309), (-14.40075185, 27.820910405))
            Line((-14.40075185, 27.820910405), (-14.40075185, 27.474632748))
            Line((-14.40075185, 27.474632748), (-13.789369633, 27.474632748))
            add(Edge.make_bspline(
                [(-13.789369633, 27.474632748), (-13.738803864, 27.471517031), (-13.642654112, 27.465592559), (-13.506191943, 27.437213361), (-13.389904602, 27.383659695), (-13.29104534, 27.311053803), (-13.217784011, 27.212861918), (-13.159811251, 27.09812106), (-13.124337859, 26.961571237), (-13.118115484, 26.863845486), (-13.11482685, 26.812195725)],
                knots=[0, 0, 0, 0, 1.133480904, 2.155290252, 3.097618657, 3.979323727, 4.869594101, 5.811399427, 6.843286507, 8, 8, 8, 8], degree=3))
        make_face()
        with BuildLine():
            Line((-10.807576008, 23.244049234), (-12.52578157, 23.244049234))
            Line((-12.52578157, 23.244049234), (-12.52578157, 26.81380566))
            add(Edge.make_bspline(
                [(-12.52578157, 26.81380566), (-12.525043153, 26.87185982), (-12.523660397, 26.980571842), (-12.486160478, 27.130049683), (-12.422164744, 27.254022682), (-12.319922194, 27.346461653), (-12.18239718, 27.407331144), (-12.009248925, 27.449095206), (-11.795561135, 27.471876784), (-11.639442554, 27.472445694), (-11.554703727, 27.47275449)],
                knots=[0, 0, 0, 0, 1.011827027, 1.894743824, 2.670067914, 3.415024863, 4.253666092, 5.272207079, 6.519394866, 8, 8, 8, 8], degree=3))
            Line((-11.554703727, 27.47275449), (-10.407580534, 27.474632748))
            add(Edge.make_bspline(
                [(-10.407580534, 27.474632748), (-10.264856282, 27.472697365), (-9.990140162, 27.468972134), (-9.594261942, 27.44434579), (-9.231071051, 27.405982046), (-8.900497293, 27.351655616), (-8.602196632, 27.283938202), (-8.337902819, 27.197163616), (-8.104793516, 27.097629549), (-7.968727226, 27.012710893), (-7.903752149, 26.972160098)],
                knots=[0, 0, 0, 0, 1.324242649, 2.548906689, 3.678911204, 4.711406018, 5.655939331, 6.513682023, 7.290245768, 8, 8, 8, 8], degree=3))
            add(Edge.make_bspline(
                [(-7.903752149, 26.972160098), (-7.839970591, 26.923870488), (-7.71566377, 26.829756639), (-7.550627797, 26.670265507), (-7.410038732, 26.500057727), (-7.294356909, 26.318929844), (-7.204804356, 26.126407252), (-7.141257659, 25.923937983), (-7.09966624, 25.71106681), (-7.095009653, 25.565298425), (-7.09263868, 25.491078195)],
                knots=[0, 0, 0, 0, 1.091024549, 2.126348061, 3.123850701, 4.097595001, 5.051299937, 6.012468514, 6.988017578, 8, 8, 8, 8], degree=3))
            add(Edge.make_bspline(
                [(-7.09263868, 25.491078195), (-7.095404669, 25.403061154), (-7.100817029, 25.230833451), (-7.146958925, 24.98010294), (-7.223438681, 24.744763616), (-7.325881756, 24.521988058), (-7.464994674, 24.317939102), (-7.628787357, 24.125459337), (-7.827123173, 23.952057994), (-7.974794267, 23.851038317), (-8.050542986, 23.799219706)],
                knots=[0, 0, 0, 0, 1.036652538, 2.028474077, 2.991670732, 3.947405712, 4.906964218, 5.892428746, 6.918909468, 8, 8, 8, 8], degree=3))
            add(Edge.make_bspline(
                [(-8.050542986, 23.799219706), (-8.126788177, 23.754156569), (-8.285378715, 23.660424924), (-8.551753816, 23.550024359), (-8.848457421, 23.453105241), (-9.178451887, 23.378816669), (-9.539332335, 23.31552662), (-9.933511227, 23.27356511), (-10.360010026, 23.250042466), (-10.655108741, 23.246090881), (-10.807576008, 23.244049234)],
                knots=[0, 0, 0, 0, 0.745866748, 1.551408113, 2.424433971, 3.375006914, 4.400102709, 5.512100979, 6.714588907, 8, 8, 8, 8], degree=3))
        make_face(mode=Mode.SUBTRACT)
    # profile 7 of 8: a face of its own
    with BuildSketch(Plane.XY):
        with BuildLine():
            Line((-12.52578157, 26.81380566), (-12.52578157, 23.244049234))
            Line((-12.52578157, 23.244049234), (-10.807576008, 23.244049234))
            add(Edge.make_bspline(
                [(-8.050542986, 23.799219706), (-8.126788177, 23.754156569), (-8.285378715, 23.660424924), (-8.551753816, 23.550024359), (-8.848457421, 23.453105241), (-9.178451887, 23.378816669), (-9.539332335, 23.31552662), (-9.933511227, 23.27356511), (-10.360010026, 23.250042466), (-10.655108741, 23.246090881), (-10.807576008, 23.244049234)],
                knots=[0, 0, 0, 0, 0.745866748, 1.551408113, 2.424433971, 3.375006914, 4.400102709, 5.512100979, 6.714588907, 8, 8, 8, 8], degree=3))
            add(Edge.make_bspline(
                [(-7.09263868, 25.491078195), (-7.095404669, 25.403061154), (-7.100817029, 25.230833451), (-7.146958925, 24.98010294), (-7.223438681, 24.744763616), (-7.325881756, 24.521988058), (-7.464994674, 24.317939102), (-7.628787357, 24.125459337), (-7.827123173, 23.952057994), (-7.974794267, 23.851038317), (-8.050542986, 23.799219706)],
                knots=[0, 0, 0, 0, 1.036652538, 2.028474077, 2.991670732, 3.947405712, 4.906964218, 5.892428746, 6.918909468, 8, 8, 8, 8], degree=3))
            add(Edge.make_bspline(
                [(-7.903752149, 26.972160098), (-7.839970591, 26.923870488), (-7.71566377, 26.829756639), (-7.550627797, 26.670265507), (-7.410038732, 26.500057727), (-7.294356909, 26.318929844), (-7.204804356, 26.126407252), (-7.141257659, 25.923937983), (-7.09966624, 25.71106681), (-7.095009653, 25.565298425), (-7.09263868, 25.491078195)],
                knots=[0, 0, 0, 0, 1.091024549, 2.126348061, 3.123850701, 4.097595001, 5.051299937, 6.012468514, 6.988017578, 8, 8, 8, 8], degree=3))
            add(Edge.make_bspline(
                [(-10.407580534, 27.474632748), (-10.264856282, 27.472697365), (-9.990140162, 27.468972134), (-9.594261942, 27.44434579), (-9.231071051, 27.405982046), (-8.900497293, 27.351655616), (-8.602196632, 27.283938202), (-8.337902819, 27.197163616), (-8.104793516, 27.097629549), (-7.968727226, 27.012710893), (-7.903752149, 26.972160098)],
                knots=[0, 0, 0, 0, 1.324242649, 2.548906689, 3.678911204, 4.711406018, 5.655939331, 6.513682023, 7.290245768, 8, 8, 8, 8], degree=3))
            Line((-10.407580534, 27.474632748), (-11.554703727, 27.47275449))
            add(Edge.make_bspline(
                [(-12.52578157, 26.81380566), (-12.525043153, 26.87185982), (-12.523660397, 26.980571842), (-12.486160478, 27.130049683), (-12.422164744, 27.254022682), (-12.319922194, 27.346461653), (-12.18239718, 27.407331144), (-12.009248925, 27.449095206), (-11.795561135, 27.471876784), (-11.639442554, 27.472445694), (-11.554703727, 27.47275449)],
                knots=[0, 0, 0, 0, 1.011827027, 1.894743824, 2.670067914, 3.415024863, 4.253666092, 5.272207079, 6.519394866, 8, 8, 8, 8], degree=3))
        make_face()
    # profile 8 of 8: a face of its own
    with BuildSketch(Plane.XY):
        with BuildLine():
            Line((-3.961100832, 26.802786056), (-3.959220736, 19.256284802))
            add(Edge.make_bspline(
                [(-3.959220736, 19.256284802), (-3.963076567, 19.209692223), (-3.970336414, 19.121966646), (-3.99829712, 18.999267855), (-4.040647434, 18.894845847), (-4.098141365, 18.809276619), (-4.169771264, 18.742396089), (-4.256941445, 18.697064656), (-4.357818409, 18.669880708), (-4.429516429, 18.668116788), (-4.467341025, 18.667186225)],
                knots=[0, 0, 0, 0, 1.271999278, 2.394949411, 3.413369715, 4.323118431, 5.181536852, 6.052778271, 6.972734865, 8, 8, 8, 8], degree=3))
            Line((-4.467341025, 18.667186225), (-5.299058361, 18.667188063))
            Line((-5.299058361, 18.667188063), (-5.299058361, 18.320910405))
            Line((-5.299058361, 18.320910405), (-2.007546951, 18.320910405))
            Line((-2.007546951, 18.320910405), (-2.007546951, 18.667188063))
            Line((-2.007546951, 18.667188063), (-2.779764671, 18.667188063))
            add(Edge.make_bspline(
                [(-2.779764671, 18.667188063), (-2.814289076, 18.66756876), (-2.882577969, 18.668321775), (-2.98272001, 18.696189217), (-3.081471838, 18.734568784), (-3.175556844, 18.793056931), (-3.261537146, 18.871583309), (-3.321123574, 18.979981863), (-3.362041558, 19.10977492), (-3.368556036, 19.205050418), (-3.372055552, 19.256231506)],
                knots=[0, 0, 0, 0, 0.877803887, 1.736286428, 2.634488349, 3.576734679, 4.550971448, 5.570120121, 6.694691728, 8, 8, 8, 8], degree=3))
            Line((-3.372055552, 19.256231506), (-3.372055552, 23.01821534))
            Line((-3.372055552, 23.01821534), (-1.158107458, 23.01821534))
            add(Edge.make_bspline(
                [(-1.158107458, 23.01821534), (-1.101278197, 23.01890193), (-0.992279831, 23.020218808), (-0.835238345, 23.011200881), (-0.692666196, 22.991485661), (-0.564583061, 22.959254425), (-0.450840709, 22.916771422), (-0.352345277, 22.86164618), (-0.266705005, 22.797458286), (-0.197457026, 22.717358039), (-0.139821155, 22.621684513), (-0.091227253, 22.506932492), (-0.050617673, 22.371886605), (-0.019210677, 22.214927487), (0.004897952, 22.037702121), (0.018947471, 21.838459716), (0.026538914, 21.618746458), (0.02541959, 21.465000599), (0.024834963, 21.384698637)],
                knots=[0, 0, 0, 0, 1.130688028, 2.168656484, 3.127251201, 3.990115579, 4.792240314, 5.535477769, 6.229605204, 6.910702075, 7.627905293, 8.444183714, 9.383981437, 10.429354697, 11.626292868, 12.94080821, 14.402174172, 16, 16, 16, 16], degree=3))
            Line((0.024834963, 21.384698637), (0.351163019, 21.385066202))
            Line((0.351163019, 21.385066202), (0.351163019, 24.971664465))
            Line((0.351163019, 24.971664465), (0.025959712, 24.971664465))
            add(Edge.make_bspline(
                [(0.025959712, 24.971664465), (0.026668858, 24.899524355), (0.028025744, 24.761490713), (0.022748432, 24.562439731), (0.009651859, 24.380359725), (-0.009516704, 24.214058374), (-0.041117367, 24.065006367), (-0.074252363, 23.931013194), (-0.120764958, 23.814878283), (-0.172638912, 23.712913215), (-0.238654631, 23.624880234), (-0.320805081, 23.550491773), (-0.420980084, 23.490269981), (-0.537050295, 23.441468987), (-0.669284856, 23.404568969), (-0.817999538, 23.378559018), (-0.982934878, 23.363301487), (-1.09864708, 23.364085001), (-1.158901399, 23.364492998)],
                knots=[0, 0, 0, 0, 1.45592283, 2.785778005, 4.017003254, 5.139764002, 6.16022002, 7.090717386, 7.920607392, 8.679475788, 9.393511104, 10.128452667, 10.901446109, 11.740937198, 12.662607922, 13.665877584, 14.784562444, 16, 16, 16, 16], degree=3))
            Line((-1.158901399, 23.364492998), (-3.372055552, 23.364492998))
            Line((-3.372055552, 23.364492998), (-3.372055552, 26.802786056))
            add(Edge.make_bspline(
                [(-3.372055552, 26.802786056), (-3.37108094, 26.850608214), (-3.369217249, 26.942055671), (-3.342096259, 27.072362656), (-3.297906448, 27.188687071), (-3.232299276, 27.288403285), (-3.149042801, 27.373383156), (-3.038566834, 27.428931727), (-2.910189042, 27.46579959), (-2.81718321, 27.470347343), (-2.767954801, 27.47275449)],
                knots=[0, 0, 0, 0, 1.11464707, 2.13147302, 3.091549386, 4.001497762, 4.902562602, 5.833024687, 6.853010125, 8, 8, 8, 8], degree=3))
            Line((-2.767954801, 27.47275449), (0.064984109, 27.474632748))
            add(Edge.make_bspline(
                [(0.064984109, 27.474632748), (0.140110651, 27.471154863), (0.286599267, 27.464373363), (0.500830616, 27.439126216), (0.702527408, 27.393967385), (0.891694128, 27.330950047), (1.070745414, 27.254665316), (1.23590935, 27.157074165), (1.392580141, 27.046877732), (1.582747366, 26.867141618), (1.806936582, 26.608752109), (2.060359664, 26.256497042), (2.297244462, 25.851767948), (2.436570812, 25.558711343), (2.508987583, 25.406391174)],
                knots=[0, 0, 0, 0, 0.792307697, 1.544914175, 2.26972427, 2.965754149, 3.643594828, 4.315869793, 4.983580278, 5.657186129, 7.066788734, 8.582010903, 10.223453531, 12, 12, 12, 12], degree=3))
            Line((2.508987583, 25.406391174), (2.848724418, 25.406391174))
            Line((2.848724418, 25.406391174), (1.990187687, 27.820910405))
            Line((1.990187687, 27.820910405), (-5.299058361, 27.820910405))
            Line((-5.299058361, 27.820910405), (-5.299058361, 27.474632748))
            Line((-5.299058361, 27.474632748), (-4.49255416, 27.474632748))
            add(Edge.make_bspline(
                [(-4.49255416, 27.474632748), (-4.446878408, 27.471341575), (-4.360538549, 27.465120344), (-4.242120001, 27.430079243), (-4.143492644, 27.372060649), (-4.071985769, 27.287646224), (-4.01839387, 27.187251308), (-3.984206611, 27.071268722), (-3.962962101, 26.941589771), (-3.961741398, 26.850556129), (-3.961100832, 26.802786056)],
                knots=[0, 0, 0, 0, 1.119687802, 2.116520953, 2.999727408, 3.881862985, 4.789741442, 5.771887262, 6.83079368, 8, 8, 8, 8], degree=3))
        make_face()
    extrude(amount=EXTRUDE_1_DEPTH)


solid = part.part
